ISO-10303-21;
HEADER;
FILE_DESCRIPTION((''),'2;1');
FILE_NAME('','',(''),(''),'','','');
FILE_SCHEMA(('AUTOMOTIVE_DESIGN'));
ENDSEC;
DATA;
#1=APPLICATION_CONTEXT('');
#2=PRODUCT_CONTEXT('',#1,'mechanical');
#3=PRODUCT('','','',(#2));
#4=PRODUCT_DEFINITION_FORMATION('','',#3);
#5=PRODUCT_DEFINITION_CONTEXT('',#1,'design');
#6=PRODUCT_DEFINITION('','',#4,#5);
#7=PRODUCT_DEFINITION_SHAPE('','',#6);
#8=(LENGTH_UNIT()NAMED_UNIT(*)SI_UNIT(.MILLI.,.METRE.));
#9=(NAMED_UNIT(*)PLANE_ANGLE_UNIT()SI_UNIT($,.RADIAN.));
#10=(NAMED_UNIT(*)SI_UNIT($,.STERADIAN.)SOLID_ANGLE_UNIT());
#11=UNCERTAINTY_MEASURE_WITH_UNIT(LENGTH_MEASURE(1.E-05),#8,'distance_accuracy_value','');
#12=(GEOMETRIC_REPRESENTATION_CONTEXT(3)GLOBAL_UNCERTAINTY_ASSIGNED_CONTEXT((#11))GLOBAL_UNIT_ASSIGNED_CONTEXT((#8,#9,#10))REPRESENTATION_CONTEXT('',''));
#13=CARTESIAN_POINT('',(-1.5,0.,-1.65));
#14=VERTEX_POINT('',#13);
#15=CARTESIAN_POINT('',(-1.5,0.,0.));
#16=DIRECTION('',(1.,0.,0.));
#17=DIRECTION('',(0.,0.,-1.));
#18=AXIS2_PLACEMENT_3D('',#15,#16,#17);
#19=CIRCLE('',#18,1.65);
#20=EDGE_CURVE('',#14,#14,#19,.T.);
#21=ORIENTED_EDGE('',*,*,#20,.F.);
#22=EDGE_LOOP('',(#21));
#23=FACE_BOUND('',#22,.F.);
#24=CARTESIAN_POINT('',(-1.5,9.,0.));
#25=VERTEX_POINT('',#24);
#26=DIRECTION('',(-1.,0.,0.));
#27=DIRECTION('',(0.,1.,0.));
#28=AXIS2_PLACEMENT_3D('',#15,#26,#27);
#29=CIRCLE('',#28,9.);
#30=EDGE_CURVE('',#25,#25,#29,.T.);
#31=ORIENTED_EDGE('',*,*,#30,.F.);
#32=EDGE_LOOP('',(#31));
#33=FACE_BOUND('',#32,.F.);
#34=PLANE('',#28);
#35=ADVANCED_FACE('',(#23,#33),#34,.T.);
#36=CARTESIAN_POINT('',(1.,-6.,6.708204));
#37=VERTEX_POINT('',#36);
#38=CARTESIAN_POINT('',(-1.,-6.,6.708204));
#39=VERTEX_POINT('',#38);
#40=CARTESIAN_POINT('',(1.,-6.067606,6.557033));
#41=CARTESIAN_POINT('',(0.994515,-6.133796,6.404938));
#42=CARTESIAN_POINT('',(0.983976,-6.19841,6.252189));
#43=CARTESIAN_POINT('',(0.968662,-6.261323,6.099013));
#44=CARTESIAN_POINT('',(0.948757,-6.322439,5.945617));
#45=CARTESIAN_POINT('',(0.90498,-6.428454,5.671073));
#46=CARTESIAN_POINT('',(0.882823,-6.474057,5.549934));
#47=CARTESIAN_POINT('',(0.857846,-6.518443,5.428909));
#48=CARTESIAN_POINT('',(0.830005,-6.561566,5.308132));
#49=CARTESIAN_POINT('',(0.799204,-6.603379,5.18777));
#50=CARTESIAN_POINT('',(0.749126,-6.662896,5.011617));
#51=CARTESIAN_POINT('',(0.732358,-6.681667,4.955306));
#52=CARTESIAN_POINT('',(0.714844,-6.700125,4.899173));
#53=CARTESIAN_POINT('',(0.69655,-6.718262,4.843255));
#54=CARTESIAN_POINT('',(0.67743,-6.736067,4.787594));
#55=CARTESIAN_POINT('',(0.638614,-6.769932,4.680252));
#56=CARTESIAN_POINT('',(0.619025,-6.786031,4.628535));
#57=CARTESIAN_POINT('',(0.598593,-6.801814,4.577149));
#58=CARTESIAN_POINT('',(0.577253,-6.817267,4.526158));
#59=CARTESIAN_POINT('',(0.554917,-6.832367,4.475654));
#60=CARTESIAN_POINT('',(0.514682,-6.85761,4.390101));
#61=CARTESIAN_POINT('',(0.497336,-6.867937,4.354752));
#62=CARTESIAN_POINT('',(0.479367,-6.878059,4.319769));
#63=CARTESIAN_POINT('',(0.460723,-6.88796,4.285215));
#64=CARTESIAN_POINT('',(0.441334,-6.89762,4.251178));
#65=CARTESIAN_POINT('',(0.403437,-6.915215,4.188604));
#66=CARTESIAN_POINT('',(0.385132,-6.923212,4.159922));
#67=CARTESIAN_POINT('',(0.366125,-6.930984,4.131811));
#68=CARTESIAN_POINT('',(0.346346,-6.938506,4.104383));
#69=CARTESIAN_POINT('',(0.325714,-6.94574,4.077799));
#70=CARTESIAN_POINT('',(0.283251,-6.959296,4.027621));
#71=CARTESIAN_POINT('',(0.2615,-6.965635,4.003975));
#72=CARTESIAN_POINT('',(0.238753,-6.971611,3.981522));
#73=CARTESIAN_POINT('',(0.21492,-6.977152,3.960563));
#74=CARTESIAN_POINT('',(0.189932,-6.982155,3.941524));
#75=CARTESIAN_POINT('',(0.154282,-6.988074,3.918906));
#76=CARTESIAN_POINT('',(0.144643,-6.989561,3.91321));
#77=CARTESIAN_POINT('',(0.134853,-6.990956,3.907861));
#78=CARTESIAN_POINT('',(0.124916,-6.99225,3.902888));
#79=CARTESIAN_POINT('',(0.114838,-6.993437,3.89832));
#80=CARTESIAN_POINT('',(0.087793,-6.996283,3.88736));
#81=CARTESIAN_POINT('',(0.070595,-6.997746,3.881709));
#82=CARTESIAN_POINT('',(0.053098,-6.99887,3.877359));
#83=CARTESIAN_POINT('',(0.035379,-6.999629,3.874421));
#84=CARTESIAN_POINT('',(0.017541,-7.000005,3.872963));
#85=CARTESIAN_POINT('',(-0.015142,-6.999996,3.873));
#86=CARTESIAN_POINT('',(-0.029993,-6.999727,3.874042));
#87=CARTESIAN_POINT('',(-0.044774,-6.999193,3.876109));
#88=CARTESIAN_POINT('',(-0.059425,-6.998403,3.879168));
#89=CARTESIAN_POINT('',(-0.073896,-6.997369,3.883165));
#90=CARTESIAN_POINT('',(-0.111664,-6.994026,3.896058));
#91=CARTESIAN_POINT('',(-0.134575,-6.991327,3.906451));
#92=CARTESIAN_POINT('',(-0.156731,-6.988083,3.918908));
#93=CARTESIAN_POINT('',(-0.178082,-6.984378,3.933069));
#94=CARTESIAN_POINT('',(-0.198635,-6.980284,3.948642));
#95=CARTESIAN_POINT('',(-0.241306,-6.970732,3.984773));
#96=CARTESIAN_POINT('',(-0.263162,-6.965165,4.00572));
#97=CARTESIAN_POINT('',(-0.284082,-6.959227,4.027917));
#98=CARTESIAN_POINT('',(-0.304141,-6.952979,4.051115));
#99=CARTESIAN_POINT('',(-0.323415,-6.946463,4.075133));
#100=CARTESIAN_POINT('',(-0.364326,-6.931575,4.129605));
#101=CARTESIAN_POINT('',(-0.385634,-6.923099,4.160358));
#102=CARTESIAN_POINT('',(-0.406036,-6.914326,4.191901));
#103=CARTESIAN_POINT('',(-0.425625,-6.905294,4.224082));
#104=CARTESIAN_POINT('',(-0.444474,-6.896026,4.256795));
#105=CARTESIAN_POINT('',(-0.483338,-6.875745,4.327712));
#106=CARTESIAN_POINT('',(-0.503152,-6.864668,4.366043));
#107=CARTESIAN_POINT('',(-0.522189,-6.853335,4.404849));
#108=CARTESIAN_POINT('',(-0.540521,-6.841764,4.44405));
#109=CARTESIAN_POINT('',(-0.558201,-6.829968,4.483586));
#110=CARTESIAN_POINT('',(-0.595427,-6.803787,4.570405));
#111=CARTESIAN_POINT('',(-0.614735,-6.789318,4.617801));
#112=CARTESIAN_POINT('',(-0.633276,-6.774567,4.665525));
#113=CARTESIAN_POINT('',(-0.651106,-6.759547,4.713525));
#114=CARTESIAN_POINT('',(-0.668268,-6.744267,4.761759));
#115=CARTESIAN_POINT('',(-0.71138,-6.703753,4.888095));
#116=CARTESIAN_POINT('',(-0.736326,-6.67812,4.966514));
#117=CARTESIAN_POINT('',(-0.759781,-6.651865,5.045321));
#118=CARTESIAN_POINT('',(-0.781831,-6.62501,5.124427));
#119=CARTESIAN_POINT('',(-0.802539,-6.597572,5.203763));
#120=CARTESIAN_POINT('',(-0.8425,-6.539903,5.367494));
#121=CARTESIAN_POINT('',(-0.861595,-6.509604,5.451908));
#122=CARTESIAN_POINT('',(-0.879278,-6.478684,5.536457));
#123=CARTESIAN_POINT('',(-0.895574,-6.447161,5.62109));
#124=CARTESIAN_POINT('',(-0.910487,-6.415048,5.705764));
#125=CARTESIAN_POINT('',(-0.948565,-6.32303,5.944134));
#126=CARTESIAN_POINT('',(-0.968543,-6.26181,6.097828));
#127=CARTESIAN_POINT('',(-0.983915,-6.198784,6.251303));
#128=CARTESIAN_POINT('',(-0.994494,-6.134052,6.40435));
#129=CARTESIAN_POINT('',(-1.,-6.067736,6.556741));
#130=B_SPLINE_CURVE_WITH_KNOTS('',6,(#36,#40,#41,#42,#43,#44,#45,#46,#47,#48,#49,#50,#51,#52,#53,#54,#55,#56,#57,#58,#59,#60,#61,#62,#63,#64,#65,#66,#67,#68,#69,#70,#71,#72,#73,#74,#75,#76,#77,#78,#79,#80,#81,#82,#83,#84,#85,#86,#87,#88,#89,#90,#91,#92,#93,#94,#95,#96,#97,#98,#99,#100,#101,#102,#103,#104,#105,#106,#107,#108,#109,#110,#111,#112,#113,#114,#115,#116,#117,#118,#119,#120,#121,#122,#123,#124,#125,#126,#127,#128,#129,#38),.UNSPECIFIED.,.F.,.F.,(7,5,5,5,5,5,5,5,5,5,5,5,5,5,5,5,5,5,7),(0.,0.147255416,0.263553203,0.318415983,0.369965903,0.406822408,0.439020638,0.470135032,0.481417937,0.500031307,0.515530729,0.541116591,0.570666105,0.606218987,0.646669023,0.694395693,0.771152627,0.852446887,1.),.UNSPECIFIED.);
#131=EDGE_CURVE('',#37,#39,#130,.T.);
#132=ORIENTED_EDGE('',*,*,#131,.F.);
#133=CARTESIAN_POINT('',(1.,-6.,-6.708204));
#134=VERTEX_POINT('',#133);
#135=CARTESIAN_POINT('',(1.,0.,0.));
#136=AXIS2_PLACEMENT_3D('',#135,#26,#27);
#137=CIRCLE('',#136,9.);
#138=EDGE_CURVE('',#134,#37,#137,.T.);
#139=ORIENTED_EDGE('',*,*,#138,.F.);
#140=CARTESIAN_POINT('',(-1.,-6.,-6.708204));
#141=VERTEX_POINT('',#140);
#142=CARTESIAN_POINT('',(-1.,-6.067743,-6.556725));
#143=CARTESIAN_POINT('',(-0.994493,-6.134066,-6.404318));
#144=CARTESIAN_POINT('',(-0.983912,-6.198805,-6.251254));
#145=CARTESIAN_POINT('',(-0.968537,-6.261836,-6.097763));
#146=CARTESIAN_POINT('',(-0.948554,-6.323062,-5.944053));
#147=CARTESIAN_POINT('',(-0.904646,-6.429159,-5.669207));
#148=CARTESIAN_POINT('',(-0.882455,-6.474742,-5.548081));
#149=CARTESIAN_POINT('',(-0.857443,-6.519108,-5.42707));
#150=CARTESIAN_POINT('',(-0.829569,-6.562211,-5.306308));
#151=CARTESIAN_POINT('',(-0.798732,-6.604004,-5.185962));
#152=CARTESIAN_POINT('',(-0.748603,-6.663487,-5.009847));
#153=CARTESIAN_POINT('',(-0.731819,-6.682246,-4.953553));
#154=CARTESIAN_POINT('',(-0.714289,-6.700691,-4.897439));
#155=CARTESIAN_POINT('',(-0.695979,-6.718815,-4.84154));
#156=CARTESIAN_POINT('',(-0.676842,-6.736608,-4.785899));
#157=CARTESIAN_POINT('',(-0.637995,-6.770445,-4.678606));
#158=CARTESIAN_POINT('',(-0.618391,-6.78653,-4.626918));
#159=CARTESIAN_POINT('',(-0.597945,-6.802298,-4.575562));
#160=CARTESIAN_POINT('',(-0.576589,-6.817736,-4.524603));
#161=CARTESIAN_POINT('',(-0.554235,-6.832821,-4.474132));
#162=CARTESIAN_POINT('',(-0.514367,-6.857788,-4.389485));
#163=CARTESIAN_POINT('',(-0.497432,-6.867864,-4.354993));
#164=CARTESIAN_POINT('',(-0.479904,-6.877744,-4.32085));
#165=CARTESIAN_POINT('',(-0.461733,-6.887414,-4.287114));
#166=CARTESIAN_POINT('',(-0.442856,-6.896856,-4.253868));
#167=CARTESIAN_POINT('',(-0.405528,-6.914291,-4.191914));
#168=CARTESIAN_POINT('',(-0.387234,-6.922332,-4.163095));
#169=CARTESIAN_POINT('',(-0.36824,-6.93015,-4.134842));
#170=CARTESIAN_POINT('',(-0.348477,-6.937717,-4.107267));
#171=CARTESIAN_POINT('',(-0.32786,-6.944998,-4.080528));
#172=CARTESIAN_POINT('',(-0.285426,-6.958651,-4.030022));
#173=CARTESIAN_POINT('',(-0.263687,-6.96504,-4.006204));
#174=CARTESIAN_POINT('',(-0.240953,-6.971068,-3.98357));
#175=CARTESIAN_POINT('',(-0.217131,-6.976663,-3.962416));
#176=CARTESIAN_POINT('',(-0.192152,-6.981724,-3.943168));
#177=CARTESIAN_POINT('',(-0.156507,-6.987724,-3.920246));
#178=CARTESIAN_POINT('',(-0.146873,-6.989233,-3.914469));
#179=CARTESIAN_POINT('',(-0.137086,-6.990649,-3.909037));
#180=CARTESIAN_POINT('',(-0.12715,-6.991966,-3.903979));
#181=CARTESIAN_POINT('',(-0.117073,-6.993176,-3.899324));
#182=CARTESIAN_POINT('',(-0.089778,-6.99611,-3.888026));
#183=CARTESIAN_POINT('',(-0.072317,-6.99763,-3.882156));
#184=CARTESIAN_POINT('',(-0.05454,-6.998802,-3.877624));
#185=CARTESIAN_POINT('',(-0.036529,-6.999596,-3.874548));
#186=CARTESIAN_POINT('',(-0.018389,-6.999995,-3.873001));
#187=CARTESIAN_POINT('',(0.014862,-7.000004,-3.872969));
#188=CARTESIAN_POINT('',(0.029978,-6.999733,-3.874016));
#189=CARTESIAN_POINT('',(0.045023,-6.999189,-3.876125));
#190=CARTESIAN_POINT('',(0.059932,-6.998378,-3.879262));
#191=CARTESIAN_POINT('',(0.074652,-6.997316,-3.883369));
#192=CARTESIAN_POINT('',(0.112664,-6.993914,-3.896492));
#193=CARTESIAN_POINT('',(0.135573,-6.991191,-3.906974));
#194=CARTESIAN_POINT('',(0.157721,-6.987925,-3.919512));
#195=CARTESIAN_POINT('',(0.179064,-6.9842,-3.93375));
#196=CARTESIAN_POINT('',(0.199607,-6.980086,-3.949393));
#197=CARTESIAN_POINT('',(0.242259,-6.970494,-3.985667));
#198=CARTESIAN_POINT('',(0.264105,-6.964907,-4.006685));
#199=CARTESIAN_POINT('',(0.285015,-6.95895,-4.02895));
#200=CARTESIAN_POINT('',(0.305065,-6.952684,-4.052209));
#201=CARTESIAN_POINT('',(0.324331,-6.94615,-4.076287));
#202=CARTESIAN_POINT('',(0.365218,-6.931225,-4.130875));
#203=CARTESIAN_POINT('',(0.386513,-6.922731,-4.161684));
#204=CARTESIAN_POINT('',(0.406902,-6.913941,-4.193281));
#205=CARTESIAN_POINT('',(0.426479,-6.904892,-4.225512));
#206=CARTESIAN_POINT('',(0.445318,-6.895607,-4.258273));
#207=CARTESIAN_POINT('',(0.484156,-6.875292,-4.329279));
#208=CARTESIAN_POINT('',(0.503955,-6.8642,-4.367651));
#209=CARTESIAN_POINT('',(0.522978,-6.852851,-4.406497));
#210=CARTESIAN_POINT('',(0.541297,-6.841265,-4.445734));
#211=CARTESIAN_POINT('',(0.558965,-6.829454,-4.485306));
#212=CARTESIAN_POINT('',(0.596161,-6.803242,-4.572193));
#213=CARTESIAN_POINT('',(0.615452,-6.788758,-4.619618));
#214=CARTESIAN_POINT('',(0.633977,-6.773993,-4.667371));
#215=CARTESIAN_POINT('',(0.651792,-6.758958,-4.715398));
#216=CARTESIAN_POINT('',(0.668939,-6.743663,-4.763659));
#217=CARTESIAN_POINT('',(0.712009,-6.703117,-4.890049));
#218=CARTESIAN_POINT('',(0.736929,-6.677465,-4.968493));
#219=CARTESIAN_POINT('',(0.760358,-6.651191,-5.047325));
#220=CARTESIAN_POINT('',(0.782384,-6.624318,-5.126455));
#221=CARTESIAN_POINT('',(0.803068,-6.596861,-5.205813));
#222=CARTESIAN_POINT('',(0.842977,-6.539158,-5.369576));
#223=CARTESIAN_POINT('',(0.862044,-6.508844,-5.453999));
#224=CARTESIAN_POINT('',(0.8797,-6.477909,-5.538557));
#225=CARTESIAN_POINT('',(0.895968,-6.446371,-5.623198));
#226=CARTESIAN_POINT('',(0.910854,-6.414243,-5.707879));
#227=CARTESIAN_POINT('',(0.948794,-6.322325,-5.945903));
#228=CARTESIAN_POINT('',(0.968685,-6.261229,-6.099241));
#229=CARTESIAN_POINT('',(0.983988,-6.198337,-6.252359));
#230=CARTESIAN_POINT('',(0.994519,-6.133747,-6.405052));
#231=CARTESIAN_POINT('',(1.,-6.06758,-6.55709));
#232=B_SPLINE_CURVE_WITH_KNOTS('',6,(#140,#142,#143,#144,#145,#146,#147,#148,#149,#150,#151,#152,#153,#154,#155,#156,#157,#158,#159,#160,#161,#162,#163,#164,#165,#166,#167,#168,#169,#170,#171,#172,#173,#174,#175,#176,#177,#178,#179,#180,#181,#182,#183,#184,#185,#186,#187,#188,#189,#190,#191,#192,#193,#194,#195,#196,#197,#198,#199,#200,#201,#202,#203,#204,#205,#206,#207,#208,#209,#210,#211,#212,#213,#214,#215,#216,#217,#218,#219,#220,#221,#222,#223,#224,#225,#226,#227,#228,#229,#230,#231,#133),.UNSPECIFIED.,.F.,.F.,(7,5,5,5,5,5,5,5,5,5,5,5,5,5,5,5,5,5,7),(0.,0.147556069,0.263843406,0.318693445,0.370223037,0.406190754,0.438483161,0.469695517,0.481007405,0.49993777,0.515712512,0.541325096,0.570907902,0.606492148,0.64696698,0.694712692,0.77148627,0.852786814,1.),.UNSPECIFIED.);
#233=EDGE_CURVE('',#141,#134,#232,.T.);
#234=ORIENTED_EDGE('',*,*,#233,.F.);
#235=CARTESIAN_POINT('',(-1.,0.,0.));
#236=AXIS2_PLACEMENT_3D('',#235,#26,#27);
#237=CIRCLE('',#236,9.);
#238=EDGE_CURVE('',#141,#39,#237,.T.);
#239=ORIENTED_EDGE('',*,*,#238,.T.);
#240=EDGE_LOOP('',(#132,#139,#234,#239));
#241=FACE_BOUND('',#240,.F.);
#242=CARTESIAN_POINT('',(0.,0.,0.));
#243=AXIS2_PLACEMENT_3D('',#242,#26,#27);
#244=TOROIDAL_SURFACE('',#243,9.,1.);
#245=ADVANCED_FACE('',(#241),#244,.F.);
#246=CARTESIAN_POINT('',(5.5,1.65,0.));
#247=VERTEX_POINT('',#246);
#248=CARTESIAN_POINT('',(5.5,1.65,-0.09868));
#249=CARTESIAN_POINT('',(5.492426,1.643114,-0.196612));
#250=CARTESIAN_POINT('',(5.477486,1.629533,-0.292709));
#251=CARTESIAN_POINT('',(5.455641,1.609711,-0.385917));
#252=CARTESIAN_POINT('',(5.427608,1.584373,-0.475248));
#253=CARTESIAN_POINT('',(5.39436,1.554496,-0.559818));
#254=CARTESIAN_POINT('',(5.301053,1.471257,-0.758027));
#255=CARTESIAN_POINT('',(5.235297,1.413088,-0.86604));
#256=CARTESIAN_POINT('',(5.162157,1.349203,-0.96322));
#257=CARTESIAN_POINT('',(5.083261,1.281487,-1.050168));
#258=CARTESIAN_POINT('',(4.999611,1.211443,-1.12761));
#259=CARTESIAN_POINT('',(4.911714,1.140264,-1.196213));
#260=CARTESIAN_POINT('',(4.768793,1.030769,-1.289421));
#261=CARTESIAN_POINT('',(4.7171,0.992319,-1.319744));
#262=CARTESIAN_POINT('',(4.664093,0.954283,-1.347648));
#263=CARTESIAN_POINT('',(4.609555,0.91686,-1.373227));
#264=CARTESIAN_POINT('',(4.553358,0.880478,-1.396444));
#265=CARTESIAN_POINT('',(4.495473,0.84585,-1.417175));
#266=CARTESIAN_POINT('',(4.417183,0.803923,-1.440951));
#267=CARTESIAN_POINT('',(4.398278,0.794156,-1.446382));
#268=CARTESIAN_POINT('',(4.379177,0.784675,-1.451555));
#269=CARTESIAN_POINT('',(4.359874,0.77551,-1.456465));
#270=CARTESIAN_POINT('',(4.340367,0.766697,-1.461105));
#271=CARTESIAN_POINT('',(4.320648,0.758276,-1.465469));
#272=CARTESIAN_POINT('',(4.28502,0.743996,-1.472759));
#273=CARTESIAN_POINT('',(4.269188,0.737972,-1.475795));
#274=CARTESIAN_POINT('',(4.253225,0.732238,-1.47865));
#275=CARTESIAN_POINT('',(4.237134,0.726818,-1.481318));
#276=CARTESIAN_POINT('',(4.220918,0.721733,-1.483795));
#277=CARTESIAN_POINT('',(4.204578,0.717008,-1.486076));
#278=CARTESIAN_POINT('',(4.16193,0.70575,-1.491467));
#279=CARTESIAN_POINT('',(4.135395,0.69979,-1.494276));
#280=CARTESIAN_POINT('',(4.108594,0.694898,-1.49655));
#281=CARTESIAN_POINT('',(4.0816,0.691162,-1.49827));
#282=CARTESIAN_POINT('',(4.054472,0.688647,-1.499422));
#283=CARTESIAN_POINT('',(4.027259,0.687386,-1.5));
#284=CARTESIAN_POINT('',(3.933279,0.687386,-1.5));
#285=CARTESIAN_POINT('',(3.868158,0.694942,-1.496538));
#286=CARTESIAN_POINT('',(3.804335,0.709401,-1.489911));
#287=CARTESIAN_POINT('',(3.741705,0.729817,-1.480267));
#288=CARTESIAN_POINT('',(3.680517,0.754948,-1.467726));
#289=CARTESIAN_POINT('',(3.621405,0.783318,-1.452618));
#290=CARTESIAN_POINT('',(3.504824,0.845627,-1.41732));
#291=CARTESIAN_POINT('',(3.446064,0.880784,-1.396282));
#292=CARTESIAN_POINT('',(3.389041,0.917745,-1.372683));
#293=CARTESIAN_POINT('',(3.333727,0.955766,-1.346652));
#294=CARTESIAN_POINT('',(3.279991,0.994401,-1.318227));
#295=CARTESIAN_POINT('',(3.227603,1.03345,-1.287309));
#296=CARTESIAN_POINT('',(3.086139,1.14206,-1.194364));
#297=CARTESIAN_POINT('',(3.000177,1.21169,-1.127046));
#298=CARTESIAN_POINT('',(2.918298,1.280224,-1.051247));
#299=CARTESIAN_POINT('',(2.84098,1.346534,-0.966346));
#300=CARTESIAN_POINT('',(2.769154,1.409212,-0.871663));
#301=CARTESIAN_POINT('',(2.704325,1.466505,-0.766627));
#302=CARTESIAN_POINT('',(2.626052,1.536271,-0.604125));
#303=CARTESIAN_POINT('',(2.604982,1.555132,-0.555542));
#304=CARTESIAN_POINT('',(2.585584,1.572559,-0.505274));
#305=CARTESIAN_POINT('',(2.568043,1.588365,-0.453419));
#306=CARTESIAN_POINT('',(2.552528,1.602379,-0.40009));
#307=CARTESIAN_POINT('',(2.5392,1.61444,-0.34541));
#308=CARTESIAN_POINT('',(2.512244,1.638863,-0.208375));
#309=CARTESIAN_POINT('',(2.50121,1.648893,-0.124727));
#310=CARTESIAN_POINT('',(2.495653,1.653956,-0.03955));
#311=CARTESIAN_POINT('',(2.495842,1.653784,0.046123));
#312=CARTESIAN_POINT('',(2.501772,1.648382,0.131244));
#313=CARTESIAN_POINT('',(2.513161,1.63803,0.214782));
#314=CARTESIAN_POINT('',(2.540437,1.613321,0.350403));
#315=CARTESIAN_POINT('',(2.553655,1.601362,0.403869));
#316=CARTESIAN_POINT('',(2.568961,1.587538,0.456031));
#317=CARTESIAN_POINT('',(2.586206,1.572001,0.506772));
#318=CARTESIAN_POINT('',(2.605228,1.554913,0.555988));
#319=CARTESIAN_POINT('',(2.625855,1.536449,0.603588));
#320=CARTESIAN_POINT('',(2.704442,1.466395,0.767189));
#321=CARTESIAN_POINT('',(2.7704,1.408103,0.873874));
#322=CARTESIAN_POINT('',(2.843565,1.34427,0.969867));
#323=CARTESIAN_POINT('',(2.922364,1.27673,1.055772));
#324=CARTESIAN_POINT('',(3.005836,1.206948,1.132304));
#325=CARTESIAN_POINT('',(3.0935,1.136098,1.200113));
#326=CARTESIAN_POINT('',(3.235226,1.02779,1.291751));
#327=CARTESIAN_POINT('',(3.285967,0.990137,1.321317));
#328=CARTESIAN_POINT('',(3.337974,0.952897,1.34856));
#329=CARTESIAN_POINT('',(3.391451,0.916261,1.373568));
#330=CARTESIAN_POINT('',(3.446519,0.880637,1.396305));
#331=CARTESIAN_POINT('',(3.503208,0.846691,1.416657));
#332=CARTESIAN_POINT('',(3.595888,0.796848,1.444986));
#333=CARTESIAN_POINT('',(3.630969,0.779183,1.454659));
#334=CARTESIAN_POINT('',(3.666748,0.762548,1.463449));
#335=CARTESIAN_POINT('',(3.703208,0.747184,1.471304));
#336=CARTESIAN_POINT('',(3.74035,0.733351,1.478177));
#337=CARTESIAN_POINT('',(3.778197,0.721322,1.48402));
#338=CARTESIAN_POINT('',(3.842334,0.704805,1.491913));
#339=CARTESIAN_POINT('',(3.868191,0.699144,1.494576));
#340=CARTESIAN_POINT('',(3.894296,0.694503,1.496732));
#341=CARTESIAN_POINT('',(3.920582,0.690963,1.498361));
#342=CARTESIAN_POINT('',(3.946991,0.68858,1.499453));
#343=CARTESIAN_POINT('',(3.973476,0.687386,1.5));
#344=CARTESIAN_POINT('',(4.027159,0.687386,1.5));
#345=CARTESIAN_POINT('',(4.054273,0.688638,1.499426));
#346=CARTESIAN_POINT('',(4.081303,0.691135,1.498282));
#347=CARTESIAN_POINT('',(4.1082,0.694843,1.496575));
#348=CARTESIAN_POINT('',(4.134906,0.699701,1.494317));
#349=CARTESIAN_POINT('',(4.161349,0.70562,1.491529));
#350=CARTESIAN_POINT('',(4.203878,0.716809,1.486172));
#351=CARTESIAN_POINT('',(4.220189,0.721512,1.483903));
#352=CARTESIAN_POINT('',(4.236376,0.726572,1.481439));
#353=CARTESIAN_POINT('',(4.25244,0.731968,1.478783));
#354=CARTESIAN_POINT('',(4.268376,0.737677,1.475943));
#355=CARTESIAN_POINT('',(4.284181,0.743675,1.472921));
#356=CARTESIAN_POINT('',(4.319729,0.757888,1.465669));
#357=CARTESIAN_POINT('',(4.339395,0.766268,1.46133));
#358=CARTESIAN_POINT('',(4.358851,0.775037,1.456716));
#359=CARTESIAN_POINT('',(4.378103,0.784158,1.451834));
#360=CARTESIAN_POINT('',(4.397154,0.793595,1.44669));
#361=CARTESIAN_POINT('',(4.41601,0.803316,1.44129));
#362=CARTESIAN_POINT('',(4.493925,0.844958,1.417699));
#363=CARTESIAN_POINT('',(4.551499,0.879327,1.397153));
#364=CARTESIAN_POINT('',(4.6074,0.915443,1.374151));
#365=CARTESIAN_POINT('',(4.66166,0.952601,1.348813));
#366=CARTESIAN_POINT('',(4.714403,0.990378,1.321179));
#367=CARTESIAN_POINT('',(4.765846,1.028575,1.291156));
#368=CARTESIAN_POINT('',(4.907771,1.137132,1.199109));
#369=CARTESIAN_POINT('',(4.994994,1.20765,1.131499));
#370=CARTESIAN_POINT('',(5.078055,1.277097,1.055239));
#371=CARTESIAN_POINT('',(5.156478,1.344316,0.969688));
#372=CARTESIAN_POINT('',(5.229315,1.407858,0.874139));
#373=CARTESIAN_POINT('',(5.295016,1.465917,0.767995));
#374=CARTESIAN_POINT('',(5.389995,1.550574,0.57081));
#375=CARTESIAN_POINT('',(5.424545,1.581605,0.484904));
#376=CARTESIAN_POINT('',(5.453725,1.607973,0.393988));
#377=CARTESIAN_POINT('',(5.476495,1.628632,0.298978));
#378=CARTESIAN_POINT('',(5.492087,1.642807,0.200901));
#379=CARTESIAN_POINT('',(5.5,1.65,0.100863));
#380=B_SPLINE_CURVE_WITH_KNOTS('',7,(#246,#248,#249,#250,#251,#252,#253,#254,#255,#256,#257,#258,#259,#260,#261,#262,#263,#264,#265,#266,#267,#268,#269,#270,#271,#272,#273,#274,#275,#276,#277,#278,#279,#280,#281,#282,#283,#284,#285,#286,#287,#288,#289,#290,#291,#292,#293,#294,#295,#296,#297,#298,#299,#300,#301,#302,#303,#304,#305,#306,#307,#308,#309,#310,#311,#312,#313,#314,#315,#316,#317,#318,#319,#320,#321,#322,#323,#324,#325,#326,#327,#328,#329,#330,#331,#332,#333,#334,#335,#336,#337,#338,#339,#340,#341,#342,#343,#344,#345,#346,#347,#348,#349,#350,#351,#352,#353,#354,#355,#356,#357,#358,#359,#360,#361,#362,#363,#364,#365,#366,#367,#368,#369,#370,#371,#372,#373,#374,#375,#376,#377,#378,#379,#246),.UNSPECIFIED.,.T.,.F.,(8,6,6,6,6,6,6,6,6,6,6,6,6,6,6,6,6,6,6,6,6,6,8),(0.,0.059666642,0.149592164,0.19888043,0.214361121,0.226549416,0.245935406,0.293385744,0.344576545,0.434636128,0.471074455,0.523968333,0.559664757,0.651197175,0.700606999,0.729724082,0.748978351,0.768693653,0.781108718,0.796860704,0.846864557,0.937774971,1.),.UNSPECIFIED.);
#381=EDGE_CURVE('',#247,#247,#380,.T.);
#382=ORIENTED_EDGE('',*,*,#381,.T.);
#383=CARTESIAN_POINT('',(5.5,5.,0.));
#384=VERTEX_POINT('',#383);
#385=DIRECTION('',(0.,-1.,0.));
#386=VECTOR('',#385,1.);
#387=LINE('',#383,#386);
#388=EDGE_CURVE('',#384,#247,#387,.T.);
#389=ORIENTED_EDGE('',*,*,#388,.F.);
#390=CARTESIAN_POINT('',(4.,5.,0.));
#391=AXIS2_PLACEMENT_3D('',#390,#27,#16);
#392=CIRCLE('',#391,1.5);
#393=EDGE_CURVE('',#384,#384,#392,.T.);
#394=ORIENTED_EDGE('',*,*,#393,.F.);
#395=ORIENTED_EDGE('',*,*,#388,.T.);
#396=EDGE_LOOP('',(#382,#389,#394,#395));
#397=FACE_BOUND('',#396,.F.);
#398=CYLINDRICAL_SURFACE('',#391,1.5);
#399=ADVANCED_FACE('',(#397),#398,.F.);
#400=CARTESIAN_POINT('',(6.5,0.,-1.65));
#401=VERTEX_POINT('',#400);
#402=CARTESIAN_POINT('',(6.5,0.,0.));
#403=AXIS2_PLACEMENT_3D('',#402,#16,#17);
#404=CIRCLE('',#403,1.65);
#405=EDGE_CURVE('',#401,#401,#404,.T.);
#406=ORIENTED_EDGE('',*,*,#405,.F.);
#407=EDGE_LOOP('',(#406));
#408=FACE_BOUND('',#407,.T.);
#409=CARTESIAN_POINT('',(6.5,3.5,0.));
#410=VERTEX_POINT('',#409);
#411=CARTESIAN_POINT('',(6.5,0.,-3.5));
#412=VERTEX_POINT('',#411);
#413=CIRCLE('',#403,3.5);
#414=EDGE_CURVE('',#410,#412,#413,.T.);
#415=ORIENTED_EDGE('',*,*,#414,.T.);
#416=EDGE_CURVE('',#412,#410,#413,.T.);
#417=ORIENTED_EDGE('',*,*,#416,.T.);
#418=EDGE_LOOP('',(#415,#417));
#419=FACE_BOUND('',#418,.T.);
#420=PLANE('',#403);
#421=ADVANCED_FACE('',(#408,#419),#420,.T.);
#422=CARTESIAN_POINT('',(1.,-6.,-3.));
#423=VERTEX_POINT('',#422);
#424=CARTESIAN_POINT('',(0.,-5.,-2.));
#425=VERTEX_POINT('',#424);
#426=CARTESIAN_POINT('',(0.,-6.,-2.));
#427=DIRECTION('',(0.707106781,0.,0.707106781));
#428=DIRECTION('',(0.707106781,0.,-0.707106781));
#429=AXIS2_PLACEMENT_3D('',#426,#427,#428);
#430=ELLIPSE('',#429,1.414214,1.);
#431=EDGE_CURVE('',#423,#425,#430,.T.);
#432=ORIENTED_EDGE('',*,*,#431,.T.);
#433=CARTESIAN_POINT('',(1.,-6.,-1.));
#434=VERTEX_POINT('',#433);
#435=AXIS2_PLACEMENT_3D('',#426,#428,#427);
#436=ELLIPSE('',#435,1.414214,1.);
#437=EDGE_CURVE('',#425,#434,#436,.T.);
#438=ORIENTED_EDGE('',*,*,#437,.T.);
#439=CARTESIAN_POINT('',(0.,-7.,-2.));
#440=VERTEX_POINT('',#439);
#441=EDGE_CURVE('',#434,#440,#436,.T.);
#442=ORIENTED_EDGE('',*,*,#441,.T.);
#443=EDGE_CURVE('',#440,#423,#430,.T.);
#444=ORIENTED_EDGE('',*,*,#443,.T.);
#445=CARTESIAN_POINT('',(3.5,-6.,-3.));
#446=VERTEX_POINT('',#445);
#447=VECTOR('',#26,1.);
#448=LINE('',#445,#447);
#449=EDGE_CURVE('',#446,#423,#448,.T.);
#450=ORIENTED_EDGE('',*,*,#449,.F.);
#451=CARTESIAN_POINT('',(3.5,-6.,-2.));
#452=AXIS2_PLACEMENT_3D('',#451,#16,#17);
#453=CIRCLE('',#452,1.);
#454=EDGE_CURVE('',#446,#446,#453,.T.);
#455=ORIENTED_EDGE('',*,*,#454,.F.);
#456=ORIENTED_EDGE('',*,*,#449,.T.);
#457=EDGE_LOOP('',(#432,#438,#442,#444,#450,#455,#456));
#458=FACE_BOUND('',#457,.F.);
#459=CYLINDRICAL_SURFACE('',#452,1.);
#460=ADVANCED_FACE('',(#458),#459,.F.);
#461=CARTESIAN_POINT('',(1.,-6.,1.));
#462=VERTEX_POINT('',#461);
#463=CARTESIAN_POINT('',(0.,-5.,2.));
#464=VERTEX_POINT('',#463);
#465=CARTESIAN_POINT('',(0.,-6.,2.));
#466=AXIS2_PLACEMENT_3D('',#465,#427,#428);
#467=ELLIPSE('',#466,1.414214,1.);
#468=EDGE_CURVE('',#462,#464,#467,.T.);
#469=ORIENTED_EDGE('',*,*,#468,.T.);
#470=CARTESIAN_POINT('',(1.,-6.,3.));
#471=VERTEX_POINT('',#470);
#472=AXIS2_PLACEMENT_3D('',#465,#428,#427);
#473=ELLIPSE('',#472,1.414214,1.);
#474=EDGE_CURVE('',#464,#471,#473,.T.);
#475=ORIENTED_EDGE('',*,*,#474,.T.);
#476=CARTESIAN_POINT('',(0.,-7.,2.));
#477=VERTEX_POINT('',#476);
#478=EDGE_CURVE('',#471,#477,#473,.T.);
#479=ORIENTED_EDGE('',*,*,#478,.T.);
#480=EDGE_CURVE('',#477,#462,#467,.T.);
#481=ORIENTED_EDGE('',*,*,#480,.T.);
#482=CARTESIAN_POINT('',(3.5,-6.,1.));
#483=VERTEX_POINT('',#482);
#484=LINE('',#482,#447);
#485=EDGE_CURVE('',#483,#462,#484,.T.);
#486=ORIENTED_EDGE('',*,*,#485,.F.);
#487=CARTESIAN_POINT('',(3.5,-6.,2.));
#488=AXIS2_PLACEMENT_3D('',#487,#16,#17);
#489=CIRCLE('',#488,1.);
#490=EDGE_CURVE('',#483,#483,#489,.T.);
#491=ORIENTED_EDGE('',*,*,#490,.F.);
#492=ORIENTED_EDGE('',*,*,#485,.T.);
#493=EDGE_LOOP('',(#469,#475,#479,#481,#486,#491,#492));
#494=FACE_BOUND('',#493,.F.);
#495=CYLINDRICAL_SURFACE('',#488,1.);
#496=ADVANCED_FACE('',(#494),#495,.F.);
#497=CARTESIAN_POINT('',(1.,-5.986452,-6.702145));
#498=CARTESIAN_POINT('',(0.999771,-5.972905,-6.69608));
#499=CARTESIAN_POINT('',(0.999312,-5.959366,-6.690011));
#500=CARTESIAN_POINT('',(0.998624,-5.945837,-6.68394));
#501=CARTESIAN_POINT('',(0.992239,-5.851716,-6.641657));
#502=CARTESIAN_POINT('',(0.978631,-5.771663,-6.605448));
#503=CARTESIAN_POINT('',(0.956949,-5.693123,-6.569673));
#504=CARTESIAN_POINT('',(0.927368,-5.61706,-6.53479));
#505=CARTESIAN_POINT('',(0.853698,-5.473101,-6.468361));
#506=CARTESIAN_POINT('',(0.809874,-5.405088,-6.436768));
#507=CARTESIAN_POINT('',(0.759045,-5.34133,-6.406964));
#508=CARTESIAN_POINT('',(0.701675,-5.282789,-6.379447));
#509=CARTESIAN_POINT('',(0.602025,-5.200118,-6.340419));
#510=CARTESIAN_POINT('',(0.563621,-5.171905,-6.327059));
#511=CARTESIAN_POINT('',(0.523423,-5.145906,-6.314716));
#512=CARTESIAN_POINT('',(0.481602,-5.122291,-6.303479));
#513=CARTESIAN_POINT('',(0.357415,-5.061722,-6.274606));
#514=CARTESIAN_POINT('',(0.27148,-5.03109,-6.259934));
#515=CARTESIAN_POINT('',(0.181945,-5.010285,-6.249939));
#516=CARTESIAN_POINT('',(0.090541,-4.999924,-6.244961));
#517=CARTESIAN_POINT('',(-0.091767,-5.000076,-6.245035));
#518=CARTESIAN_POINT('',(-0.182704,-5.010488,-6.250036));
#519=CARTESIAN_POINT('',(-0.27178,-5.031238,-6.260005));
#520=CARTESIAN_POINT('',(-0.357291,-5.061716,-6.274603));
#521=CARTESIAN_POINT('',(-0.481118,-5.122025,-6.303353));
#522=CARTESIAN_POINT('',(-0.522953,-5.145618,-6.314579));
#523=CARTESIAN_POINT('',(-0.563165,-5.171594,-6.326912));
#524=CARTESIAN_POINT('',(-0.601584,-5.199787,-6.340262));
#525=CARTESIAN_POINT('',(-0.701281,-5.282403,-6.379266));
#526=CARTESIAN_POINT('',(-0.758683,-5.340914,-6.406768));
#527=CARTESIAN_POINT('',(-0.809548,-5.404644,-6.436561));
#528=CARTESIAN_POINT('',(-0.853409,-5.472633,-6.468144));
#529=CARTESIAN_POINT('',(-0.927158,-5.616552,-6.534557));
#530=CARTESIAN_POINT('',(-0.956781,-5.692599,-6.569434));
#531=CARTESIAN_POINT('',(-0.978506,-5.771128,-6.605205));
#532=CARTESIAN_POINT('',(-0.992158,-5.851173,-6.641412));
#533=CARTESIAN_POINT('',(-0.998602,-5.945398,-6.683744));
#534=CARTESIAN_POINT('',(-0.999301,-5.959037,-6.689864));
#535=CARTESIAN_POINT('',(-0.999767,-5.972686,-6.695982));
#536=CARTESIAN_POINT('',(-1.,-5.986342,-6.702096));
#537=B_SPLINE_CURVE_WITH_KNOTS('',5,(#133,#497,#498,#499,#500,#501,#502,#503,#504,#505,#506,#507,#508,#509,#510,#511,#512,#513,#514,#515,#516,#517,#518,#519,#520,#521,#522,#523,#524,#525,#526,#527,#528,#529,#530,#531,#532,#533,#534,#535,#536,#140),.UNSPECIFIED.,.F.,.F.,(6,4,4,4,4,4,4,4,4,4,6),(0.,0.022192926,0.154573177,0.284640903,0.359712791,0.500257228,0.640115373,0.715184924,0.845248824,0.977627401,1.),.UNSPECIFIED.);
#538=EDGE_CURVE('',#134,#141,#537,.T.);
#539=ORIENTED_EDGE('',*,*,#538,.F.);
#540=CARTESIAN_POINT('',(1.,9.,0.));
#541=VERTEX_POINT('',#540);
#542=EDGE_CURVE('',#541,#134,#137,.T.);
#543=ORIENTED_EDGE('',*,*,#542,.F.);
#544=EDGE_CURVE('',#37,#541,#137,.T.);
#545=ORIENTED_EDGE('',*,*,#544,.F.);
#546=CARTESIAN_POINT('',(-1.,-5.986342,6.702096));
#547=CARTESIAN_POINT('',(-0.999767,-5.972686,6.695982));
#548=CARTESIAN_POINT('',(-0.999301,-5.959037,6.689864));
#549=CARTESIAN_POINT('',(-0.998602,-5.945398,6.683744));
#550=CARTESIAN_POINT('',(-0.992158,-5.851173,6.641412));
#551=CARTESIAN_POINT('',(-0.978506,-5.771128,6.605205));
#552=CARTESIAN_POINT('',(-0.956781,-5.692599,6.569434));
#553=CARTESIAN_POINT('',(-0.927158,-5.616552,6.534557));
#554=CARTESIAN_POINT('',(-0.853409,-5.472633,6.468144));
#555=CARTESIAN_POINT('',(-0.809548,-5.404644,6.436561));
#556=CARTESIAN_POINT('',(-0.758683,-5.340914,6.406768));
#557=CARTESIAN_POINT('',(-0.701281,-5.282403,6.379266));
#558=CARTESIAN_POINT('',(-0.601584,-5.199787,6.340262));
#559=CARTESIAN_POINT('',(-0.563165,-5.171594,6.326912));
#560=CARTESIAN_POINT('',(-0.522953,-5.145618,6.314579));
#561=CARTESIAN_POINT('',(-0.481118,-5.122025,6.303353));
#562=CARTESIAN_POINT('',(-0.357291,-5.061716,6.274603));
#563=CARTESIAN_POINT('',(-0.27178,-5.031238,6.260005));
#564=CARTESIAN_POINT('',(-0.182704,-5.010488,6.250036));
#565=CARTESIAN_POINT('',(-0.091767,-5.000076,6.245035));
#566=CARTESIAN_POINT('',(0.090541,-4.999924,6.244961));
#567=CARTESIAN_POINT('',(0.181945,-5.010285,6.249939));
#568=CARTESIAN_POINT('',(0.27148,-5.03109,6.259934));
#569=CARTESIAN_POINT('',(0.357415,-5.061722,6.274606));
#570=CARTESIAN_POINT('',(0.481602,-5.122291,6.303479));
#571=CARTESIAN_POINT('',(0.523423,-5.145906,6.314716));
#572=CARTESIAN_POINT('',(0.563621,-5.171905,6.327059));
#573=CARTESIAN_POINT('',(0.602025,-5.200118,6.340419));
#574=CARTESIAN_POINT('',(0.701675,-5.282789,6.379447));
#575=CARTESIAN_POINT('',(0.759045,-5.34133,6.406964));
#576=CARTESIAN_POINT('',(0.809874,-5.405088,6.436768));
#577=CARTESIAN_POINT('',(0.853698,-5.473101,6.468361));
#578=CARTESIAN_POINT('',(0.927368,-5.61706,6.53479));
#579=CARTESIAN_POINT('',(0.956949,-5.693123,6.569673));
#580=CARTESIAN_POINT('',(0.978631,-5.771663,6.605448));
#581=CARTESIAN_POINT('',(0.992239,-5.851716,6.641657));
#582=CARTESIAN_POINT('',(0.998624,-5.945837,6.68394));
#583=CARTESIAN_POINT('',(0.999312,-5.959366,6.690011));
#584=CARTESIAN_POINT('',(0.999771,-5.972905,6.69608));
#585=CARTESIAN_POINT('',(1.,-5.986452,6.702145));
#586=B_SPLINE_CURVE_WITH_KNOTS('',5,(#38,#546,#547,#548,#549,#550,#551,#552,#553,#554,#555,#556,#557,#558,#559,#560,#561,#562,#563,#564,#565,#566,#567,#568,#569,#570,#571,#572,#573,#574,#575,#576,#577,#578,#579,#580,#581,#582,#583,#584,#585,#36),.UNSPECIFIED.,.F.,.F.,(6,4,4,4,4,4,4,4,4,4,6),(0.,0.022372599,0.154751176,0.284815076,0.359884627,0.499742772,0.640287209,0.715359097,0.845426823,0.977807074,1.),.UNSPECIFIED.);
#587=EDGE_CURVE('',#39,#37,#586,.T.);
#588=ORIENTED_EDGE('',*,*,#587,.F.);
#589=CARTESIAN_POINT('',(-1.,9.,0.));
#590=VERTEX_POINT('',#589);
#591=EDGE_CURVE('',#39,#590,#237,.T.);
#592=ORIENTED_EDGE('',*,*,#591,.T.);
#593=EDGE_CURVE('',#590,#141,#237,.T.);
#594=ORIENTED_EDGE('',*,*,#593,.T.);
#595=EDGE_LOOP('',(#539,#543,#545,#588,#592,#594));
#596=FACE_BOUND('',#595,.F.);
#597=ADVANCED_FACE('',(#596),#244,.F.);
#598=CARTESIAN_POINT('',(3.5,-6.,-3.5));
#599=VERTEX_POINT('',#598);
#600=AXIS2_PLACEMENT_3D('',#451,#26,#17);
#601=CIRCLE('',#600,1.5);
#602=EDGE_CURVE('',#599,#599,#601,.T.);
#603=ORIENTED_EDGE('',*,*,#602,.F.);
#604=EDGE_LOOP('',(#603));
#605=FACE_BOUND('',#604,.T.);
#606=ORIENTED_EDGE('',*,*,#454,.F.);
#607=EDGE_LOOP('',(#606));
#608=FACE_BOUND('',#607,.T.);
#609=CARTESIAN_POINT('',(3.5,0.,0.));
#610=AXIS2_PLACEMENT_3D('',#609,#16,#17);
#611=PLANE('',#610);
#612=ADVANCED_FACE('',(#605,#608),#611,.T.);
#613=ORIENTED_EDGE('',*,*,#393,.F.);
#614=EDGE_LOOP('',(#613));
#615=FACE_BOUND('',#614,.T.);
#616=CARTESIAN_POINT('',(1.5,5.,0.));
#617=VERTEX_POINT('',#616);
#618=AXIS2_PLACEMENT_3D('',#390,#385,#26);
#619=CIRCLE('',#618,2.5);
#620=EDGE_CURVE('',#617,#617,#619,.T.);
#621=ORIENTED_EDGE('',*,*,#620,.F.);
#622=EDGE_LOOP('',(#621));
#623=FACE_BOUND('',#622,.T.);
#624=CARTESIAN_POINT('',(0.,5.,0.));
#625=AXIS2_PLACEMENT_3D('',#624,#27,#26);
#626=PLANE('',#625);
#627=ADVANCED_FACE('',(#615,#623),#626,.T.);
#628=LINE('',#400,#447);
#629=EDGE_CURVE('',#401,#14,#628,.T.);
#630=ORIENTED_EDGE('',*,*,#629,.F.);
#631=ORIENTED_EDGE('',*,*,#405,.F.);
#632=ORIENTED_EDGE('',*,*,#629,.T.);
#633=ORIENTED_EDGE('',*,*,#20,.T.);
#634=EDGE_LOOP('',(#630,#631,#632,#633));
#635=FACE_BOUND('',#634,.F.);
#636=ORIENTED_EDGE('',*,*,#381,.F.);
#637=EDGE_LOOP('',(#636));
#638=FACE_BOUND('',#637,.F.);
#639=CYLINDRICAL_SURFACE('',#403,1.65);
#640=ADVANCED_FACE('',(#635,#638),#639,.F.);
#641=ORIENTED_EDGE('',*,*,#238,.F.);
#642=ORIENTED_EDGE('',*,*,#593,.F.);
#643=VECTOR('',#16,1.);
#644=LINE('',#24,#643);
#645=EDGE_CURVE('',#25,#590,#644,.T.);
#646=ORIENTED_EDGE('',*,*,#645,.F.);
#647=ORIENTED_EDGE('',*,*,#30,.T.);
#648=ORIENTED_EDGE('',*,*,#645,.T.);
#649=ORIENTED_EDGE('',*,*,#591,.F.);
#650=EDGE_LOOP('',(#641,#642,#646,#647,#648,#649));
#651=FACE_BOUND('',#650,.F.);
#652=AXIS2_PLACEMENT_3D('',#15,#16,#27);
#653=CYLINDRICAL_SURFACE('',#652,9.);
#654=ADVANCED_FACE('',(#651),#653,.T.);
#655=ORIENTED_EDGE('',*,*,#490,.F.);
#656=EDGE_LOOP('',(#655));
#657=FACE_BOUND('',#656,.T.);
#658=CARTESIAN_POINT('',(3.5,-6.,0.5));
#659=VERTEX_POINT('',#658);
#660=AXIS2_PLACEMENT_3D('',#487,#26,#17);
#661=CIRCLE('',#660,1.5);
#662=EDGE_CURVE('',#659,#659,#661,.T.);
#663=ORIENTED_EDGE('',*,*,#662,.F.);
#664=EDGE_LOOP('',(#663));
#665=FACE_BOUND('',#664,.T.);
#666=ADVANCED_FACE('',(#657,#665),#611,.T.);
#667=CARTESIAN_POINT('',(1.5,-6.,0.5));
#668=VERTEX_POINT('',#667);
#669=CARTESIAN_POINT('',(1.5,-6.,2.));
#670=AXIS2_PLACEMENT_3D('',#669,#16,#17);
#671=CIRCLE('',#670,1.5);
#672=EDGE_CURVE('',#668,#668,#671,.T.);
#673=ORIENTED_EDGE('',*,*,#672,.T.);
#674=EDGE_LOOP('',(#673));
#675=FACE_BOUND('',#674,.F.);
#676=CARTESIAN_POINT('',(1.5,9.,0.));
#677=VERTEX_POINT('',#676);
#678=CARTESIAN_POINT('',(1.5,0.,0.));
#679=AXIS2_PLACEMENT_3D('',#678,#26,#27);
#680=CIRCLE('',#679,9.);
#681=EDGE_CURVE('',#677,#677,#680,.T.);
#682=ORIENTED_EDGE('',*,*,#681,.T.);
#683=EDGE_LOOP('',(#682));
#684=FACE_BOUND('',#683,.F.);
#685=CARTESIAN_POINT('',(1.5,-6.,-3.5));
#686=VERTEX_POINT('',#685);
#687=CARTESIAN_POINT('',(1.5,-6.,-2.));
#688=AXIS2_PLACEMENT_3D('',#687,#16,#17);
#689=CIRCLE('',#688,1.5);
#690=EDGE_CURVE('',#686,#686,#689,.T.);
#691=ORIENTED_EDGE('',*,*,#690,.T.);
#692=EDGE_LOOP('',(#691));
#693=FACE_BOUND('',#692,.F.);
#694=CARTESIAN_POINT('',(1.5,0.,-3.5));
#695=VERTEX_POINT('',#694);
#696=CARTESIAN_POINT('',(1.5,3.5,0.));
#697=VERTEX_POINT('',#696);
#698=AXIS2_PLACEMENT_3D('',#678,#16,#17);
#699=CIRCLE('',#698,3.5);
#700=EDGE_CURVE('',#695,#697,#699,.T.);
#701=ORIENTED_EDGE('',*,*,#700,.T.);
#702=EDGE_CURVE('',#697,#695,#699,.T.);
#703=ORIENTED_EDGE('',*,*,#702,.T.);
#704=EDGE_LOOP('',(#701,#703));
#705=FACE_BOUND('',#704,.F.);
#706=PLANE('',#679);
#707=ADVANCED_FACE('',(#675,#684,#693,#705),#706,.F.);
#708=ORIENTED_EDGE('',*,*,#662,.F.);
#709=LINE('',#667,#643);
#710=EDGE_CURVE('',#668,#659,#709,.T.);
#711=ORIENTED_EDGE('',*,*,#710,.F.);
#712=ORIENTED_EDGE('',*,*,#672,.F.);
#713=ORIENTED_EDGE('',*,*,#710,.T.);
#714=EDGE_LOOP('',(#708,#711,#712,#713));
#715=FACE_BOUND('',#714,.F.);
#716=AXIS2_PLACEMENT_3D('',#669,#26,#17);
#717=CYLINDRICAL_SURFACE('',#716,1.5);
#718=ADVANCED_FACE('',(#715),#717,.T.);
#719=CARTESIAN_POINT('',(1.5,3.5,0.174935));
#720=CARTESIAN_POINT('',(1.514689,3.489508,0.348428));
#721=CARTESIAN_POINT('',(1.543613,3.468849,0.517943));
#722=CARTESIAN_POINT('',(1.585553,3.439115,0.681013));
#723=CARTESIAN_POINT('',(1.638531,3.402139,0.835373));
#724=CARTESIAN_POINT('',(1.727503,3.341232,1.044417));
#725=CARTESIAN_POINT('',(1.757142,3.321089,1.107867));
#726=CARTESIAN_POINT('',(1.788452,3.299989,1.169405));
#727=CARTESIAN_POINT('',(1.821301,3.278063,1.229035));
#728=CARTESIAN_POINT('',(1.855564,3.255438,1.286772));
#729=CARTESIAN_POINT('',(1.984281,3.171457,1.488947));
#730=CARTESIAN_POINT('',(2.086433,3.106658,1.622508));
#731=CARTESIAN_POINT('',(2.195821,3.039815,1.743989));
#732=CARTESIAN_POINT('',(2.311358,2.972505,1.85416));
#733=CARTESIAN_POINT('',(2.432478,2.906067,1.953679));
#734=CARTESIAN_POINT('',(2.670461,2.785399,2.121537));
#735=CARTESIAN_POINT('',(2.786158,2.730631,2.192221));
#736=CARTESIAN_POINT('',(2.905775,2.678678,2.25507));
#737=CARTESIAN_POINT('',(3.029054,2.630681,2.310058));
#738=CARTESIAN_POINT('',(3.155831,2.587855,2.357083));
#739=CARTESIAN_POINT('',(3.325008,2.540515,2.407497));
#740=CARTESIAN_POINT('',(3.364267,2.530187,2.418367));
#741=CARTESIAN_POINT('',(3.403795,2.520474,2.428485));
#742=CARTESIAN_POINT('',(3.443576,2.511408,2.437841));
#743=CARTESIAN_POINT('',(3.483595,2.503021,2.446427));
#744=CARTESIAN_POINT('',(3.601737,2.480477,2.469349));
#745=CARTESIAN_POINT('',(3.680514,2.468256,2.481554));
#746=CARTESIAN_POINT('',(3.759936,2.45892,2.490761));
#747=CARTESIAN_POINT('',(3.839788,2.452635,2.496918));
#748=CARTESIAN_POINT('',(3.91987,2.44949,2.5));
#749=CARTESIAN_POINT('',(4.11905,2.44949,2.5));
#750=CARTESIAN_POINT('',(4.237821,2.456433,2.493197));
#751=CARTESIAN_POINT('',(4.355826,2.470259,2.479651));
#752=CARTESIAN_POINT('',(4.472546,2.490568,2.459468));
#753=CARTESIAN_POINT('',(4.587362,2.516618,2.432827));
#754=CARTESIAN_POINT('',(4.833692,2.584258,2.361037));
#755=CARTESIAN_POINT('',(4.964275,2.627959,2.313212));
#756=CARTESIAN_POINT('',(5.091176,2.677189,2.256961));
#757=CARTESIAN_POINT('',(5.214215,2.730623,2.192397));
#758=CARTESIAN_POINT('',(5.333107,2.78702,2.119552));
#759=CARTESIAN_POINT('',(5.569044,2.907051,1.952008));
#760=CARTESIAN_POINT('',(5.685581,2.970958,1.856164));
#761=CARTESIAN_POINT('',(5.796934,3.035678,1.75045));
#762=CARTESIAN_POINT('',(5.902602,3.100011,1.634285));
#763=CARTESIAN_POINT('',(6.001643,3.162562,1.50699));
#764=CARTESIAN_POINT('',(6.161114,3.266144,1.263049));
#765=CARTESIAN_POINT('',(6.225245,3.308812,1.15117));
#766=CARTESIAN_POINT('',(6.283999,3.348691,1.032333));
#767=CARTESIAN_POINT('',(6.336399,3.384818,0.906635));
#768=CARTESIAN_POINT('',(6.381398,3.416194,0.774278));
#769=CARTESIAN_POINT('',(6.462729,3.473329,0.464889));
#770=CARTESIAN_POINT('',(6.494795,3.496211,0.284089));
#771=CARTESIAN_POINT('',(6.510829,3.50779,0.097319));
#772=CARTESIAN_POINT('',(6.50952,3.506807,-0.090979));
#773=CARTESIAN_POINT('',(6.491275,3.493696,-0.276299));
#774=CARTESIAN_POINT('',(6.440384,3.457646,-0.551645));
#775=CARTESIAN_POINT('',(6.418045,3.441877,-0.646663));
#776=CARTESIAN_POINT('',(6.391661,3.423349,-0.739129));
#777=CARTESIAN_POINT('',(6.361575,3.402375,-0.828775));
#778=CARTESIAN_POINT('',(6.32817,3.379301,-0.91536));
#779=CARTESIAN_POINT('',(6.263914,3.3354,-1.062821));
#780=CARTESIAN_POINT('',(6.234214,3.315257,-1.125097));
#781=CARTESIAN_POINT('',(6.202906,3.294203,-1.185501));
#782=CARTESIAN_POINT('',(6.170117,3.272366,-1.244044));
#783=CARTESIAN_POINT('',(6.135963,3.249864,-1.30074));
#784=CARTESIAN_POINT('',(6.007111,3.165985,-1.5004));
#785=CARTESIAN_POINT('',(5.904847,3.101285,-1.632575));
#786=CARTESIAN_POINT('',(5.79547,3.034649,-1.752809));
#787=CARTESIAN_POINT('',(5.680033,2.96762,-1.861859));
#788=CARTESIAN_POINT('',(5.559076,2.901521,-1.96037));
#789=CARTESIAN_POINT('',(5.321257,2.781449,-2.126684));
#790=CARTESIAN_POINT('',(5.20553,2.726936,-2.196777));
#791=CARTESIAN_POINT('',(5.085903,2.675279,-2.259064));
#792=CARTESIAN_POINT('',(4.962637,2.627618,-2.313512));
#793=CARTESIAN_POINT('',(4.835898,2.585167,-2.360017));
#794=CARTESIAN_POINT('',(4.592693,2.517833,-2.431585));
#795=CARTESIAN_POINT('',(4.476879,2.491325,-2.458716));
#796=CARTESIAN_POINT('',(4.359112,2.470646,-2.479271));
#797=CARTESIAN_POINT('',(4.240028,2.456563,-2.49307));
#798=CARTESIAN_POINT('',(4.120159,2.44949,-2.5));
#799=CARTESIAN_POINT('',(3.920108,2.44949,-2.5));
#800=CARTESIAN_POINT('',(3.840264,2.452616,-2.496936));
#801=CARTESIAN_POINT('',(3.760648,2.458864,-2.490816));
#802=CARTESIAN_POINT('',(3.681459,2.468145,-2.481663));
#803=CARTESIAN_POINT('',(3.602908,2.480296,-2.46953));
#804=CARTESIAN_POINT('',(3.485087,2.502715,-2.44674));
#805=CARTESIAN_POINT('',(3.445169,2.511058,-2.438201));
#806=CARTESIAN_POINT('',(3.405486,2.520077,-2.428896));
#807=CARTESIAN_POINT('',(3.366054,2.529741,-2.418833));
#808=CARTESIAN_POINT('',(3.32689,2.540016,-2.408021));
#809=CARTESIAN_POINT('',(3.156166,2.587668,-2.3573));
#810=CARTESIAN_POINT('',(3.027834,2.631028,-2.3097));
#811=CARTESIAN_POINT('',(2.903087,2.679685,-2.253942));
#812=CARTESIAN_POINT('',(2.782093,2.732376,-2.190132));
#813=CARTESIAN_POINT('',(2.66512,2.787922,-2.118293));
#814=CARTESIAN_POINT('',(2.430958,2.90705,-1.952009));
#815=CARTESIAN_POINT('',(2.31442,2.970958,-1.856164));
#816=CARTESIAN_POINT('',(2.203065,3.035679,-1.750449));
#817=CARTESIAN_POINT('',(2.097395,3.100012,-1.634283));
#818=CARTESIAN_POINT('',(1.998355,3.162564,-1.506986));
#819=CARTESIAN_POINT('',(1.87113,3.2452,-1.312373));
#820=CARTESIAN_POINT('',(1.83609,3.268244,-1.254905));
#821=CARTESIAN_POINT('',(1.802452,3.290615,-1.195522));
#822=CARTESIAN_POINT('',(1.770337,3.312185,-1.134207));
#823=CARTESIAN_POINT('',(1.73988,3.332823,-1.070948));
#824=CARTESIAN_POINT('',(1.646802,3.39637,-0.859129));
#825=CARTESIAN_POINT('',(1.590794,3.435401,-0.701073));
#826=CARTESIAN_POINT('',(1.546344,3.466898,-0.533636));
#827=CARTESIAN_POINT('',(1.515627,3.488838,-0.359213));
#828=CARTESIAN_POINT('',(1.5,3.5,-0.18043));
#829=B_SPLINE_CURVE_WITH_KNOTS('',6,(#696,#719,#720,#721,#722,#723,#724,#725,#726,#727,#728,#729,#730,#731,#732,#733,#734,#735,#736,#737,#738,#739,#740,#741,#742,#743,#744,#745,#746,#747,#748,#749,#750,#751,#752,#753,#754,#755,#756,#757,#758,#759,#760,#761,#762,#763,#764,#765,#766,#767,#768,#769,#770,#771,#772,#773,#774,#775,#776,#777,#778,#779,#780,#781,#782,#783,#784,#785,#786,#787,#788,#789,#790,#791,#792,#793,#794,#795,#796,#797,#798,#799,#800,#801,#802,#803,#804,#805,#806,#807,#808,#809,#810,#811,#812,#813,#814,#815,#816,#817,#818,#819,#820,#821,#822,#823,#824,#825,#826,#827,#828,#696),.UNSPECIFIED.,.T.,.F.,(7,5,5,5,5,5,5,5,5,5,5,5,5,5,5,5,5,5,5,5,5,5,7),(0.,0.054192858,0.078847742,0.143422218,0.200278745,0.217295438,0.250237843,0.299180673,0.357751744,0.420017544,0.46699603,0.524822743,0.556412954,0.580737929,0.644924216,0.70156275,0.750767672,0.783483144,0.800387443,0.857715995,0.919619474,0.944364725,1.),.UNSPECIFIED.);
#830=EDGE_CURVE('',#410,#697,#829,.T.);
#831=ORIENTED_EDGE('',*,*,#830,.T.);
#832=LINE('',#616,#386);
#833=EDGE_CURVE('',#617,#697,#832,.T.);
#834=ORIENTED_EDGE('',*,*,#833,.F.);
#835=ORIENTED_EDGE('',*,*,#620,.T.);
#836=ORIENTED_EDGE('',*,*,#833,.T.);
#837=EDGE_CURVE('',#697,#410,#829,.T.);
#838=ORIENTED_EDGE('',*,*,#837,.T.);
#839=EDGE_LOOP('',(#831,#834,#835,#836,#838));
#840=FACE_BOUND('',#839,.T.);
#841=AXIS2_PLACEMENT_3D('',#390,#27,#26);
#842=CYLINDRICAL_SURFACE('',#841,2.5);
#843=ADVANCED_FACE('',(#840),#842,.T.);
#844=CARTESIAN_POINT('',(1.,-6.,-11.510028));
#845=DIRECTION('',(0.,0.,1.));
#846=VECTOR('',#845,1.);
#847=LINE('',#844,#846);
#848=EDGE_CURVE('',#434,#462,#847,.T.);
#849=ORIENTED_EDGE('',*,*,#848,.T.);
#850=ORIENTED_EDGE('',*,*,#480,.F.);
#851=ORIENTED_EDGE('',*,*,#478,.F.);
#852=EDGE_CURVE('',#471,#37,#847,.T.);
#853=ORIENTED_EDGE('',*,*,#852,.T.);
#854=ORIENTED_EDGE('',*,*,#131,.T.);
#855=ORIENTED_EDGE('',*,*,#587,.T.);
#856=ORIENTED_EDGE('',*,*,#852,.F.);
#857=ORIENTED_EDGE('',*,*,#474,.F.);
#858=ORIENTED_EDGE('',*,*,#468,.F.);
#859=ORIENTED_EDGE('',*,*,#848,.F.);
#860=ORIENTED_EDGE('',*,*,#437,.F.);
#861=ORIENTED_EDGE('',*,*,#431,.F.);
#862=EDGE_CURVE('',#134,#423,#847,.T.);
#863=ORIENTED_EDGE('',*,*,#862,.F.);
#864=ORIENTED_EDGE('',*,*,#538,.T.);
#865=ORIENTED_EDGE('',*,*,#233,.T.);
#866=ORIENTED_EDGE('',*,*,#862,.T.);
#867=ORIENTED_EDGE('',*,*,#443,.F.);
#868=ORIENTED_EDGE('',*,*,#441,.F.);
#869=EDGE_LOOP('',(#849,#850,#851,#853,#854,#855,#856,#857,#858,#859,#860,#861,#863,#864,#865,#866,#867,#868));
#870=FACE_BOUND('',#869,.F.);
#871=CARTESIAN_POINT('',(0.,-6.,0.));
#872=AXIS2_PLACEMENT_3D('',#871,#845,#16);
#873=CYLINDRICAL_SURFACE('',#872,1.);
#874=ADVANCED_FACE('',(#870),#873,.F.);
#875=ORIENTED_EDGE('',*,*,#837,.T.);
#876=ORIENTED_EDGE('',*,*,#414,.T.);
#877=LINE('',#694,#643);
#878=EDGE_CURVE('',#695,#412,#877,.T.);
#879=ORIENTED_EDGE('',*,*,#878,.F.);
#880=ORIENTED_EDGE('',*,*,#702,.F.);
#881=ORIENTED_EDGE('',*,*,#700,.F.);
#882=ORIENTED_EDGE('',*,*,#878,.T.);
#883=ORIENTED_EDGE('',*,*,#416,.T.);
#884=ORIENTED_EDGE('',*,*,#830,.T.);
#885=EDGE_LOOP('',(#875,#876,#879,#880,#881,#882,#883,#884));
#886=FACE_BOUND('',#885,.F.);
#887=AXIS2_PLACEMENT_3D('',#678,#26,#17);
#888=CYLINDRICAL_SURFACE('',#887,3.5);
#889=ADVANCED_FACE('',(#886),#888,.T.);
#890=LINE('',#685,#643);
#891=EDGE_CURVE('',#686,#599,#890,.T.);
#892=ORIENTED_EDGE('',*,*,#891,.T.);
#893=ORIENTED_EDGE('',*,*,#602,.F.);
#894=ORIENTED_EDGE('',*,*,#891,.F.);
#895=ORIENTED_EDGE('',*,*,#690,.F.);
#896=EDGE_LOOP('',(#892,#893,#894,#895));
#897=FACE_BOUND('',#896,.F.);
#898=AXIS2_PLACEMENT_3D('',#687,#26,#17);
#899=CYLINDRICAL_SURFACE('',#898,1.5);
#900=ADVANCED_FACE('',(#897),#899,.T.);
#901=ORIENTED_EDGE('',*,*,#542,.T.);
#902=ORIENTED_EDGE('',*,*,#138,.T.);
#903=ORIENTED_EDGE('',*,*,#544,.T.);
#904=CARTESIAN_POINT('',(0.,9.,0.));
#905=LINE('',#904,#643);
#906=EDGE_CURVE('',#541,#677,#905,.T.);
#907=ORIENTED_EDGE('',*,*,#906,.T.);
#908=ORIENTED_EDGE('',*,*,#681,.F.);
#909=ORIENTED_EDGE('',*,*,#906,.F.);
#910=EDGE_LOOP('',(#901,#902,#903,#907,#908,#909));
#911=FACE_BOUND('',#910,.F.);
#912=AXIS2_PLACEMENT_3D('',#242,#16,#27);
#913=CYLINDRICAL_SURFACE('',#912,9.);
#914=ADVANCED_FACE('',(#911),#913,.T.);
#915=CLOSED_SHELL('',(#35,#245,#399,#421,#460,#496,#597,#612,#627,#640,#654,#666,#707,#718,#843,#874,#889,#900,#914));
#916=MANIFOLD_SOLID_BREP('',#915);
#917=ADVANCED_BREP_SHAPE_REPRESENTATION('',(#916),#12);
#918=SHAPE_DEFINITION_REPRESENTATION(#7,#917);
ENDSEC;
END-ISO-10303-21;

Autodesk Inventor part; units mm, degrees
ref_plane "YZ Plane" through (0, 0, 0) normal (1, 0, 0) x (0, 1, 0)
ref_plane "XY Plane" through (0, 0, 0) normal (0, 0, 1) x (1, 0, 0)
sketch "Sketch1" plane through (0, 0, 0) normal (0, 0, 1) x (1, 0, 0)
  line L0 (0, 0) -> (0, 9)
  circle A0 centre (0, 9) radius 1
  line L1 (0, 9) -> (1.5, 9)
  line L2 (1.5, 9) -> (1.5, 0)
  line L3 (1.5, 0) -> (0, 0)
  line L4 (0, 0) -> (-1.5, 0)
  line L5 (-1.5, 0) -> (-1.5, 9)
  line L6 (-1.5, 9) -> (-1, 9)
  point P0 (0.5, 7.5858)
  point P1 (-0.5, 7.5858)
  point P2 (1, 9)
  point P3 (0, 8)
  dimension "d1" = 2
  dimension "d0" = 9
  dimension "d2" = 1.5
  dimension "d3" = 1.5
revolve "Revolution1" add sketch "Sketch1" angle 360 about axis through (1.5, 0, 0) along (-1, 0, 0) contours L4 L5 L6 A0 L0 | L0 A0 L1 L2 L3
sketch "Sketch6" plane through (0, 0, 0) normal (0, 0, 1) x (1, 0, 0)
  line L0 (0, 0) -> (0, -6)
  circle A0 centre (0, -6) radius 1
  dimension "d14" = 6
  dimension "d15" = 2
extrude "Extrusion4" cut sketch "Sketch6" against normal through all both and the other way through all
sketch "Sketch7" plane through (1.5, 0, 0) normal (1, 0, 0) x (0, 0, -1)
  line L0 (-6.245, -5) -> (6.245, -5) projected
  line L1 (0, -5) -> (0, -7)
  line L2 (-3.873, -7) -> (3.873, -7) projected
  line L3 (0, -6) -> (-2, -6)
  line L4 (0, -6) -> (2, -6)
  circle A0 centre (-2, -6) radius 1.5
  circle A1 centre (2, -6) radius 1.5
  point P0 (0, 0)
  dimension "d18" = 2
  dimension "d19" = 2
  dimension "d20" = 3
  dimension "d21" = 3
extrude "Extrusion5" add sketch "Sketch7" along normal blind 2 contours A0 L0 | L0 A0 L2 | L2 A0 | A1 L0 | L0 A1 L2 | L2 A1
sketch "Sketch8" plane through (3.5, -6, -2) normal (1, 0, 0) x (0, 0, -1)
  circle A0 centre (0, 0) radius 1
  circle A1 centre (-4, 0) radius 1.5 projected
  circle A2 centre (-4, 0) radius 1
  point P0 (-2, 6)
  dimension "d24" = 2
  dimension "d25" = 2
extrude "Extrusion6" cut sketch "Sketch8" against normal up to surface contours A0 | A2
sketch "Sketch9" plane through (1.5, 0, 0) normal (1, 0, 0) x (0, 0, -1)
  circle A0 centre (0, 0) radius 3.5
  dimension "d28" = 7
extrude "Extrusion7" add sketch "Sketch9" along normal blind 5
sketch "Sketch10" plane through (6.5, 0, 0) normal (1, 0, 0) x (0, 0, -1)
  circle A0 centre (0, 0) radius 1.65
  dimension "d31" = 3.3
extrude "Extrusion8" cut sketch "Sketch10" against normal through all
ref_plane "Work Plane1" through (0, 5, 0) normal (0, 1, 0) x (-1, 0, 0)
sketch "Sketch12" plane through (0, 5, 0) normal (0, 1, 0) x (-1, 0, 0)
  line L0 (-6.5, -1.65) -> (-6.5, 1.65) projected
  line L1 (-6.5, 0) -> (-1.5, 0)
  line L2 (-1.5, 9) -> (-1.5, -9) projected
  circle A0 centre (-4, 0) radius 2.5
  point P0 (0, 0)
  dimension "d36" = 5
extrude "Extrusion9" add sketch "Sketch12" against normal up to surface
sketch "Sketch13" plane through (4, 5, 0) normal (0, 1, 0) x (1, 0, 0)
  circle A0 centre (0, 0) radius 1.5
  point P0 (-4, 0)
  dimension "d39" = 3
extrude "Extrusion10" cut sketch "Sketch13" against normal up to surface
equation "\"d3\" = d2"
properties part number "finger_pulley"
